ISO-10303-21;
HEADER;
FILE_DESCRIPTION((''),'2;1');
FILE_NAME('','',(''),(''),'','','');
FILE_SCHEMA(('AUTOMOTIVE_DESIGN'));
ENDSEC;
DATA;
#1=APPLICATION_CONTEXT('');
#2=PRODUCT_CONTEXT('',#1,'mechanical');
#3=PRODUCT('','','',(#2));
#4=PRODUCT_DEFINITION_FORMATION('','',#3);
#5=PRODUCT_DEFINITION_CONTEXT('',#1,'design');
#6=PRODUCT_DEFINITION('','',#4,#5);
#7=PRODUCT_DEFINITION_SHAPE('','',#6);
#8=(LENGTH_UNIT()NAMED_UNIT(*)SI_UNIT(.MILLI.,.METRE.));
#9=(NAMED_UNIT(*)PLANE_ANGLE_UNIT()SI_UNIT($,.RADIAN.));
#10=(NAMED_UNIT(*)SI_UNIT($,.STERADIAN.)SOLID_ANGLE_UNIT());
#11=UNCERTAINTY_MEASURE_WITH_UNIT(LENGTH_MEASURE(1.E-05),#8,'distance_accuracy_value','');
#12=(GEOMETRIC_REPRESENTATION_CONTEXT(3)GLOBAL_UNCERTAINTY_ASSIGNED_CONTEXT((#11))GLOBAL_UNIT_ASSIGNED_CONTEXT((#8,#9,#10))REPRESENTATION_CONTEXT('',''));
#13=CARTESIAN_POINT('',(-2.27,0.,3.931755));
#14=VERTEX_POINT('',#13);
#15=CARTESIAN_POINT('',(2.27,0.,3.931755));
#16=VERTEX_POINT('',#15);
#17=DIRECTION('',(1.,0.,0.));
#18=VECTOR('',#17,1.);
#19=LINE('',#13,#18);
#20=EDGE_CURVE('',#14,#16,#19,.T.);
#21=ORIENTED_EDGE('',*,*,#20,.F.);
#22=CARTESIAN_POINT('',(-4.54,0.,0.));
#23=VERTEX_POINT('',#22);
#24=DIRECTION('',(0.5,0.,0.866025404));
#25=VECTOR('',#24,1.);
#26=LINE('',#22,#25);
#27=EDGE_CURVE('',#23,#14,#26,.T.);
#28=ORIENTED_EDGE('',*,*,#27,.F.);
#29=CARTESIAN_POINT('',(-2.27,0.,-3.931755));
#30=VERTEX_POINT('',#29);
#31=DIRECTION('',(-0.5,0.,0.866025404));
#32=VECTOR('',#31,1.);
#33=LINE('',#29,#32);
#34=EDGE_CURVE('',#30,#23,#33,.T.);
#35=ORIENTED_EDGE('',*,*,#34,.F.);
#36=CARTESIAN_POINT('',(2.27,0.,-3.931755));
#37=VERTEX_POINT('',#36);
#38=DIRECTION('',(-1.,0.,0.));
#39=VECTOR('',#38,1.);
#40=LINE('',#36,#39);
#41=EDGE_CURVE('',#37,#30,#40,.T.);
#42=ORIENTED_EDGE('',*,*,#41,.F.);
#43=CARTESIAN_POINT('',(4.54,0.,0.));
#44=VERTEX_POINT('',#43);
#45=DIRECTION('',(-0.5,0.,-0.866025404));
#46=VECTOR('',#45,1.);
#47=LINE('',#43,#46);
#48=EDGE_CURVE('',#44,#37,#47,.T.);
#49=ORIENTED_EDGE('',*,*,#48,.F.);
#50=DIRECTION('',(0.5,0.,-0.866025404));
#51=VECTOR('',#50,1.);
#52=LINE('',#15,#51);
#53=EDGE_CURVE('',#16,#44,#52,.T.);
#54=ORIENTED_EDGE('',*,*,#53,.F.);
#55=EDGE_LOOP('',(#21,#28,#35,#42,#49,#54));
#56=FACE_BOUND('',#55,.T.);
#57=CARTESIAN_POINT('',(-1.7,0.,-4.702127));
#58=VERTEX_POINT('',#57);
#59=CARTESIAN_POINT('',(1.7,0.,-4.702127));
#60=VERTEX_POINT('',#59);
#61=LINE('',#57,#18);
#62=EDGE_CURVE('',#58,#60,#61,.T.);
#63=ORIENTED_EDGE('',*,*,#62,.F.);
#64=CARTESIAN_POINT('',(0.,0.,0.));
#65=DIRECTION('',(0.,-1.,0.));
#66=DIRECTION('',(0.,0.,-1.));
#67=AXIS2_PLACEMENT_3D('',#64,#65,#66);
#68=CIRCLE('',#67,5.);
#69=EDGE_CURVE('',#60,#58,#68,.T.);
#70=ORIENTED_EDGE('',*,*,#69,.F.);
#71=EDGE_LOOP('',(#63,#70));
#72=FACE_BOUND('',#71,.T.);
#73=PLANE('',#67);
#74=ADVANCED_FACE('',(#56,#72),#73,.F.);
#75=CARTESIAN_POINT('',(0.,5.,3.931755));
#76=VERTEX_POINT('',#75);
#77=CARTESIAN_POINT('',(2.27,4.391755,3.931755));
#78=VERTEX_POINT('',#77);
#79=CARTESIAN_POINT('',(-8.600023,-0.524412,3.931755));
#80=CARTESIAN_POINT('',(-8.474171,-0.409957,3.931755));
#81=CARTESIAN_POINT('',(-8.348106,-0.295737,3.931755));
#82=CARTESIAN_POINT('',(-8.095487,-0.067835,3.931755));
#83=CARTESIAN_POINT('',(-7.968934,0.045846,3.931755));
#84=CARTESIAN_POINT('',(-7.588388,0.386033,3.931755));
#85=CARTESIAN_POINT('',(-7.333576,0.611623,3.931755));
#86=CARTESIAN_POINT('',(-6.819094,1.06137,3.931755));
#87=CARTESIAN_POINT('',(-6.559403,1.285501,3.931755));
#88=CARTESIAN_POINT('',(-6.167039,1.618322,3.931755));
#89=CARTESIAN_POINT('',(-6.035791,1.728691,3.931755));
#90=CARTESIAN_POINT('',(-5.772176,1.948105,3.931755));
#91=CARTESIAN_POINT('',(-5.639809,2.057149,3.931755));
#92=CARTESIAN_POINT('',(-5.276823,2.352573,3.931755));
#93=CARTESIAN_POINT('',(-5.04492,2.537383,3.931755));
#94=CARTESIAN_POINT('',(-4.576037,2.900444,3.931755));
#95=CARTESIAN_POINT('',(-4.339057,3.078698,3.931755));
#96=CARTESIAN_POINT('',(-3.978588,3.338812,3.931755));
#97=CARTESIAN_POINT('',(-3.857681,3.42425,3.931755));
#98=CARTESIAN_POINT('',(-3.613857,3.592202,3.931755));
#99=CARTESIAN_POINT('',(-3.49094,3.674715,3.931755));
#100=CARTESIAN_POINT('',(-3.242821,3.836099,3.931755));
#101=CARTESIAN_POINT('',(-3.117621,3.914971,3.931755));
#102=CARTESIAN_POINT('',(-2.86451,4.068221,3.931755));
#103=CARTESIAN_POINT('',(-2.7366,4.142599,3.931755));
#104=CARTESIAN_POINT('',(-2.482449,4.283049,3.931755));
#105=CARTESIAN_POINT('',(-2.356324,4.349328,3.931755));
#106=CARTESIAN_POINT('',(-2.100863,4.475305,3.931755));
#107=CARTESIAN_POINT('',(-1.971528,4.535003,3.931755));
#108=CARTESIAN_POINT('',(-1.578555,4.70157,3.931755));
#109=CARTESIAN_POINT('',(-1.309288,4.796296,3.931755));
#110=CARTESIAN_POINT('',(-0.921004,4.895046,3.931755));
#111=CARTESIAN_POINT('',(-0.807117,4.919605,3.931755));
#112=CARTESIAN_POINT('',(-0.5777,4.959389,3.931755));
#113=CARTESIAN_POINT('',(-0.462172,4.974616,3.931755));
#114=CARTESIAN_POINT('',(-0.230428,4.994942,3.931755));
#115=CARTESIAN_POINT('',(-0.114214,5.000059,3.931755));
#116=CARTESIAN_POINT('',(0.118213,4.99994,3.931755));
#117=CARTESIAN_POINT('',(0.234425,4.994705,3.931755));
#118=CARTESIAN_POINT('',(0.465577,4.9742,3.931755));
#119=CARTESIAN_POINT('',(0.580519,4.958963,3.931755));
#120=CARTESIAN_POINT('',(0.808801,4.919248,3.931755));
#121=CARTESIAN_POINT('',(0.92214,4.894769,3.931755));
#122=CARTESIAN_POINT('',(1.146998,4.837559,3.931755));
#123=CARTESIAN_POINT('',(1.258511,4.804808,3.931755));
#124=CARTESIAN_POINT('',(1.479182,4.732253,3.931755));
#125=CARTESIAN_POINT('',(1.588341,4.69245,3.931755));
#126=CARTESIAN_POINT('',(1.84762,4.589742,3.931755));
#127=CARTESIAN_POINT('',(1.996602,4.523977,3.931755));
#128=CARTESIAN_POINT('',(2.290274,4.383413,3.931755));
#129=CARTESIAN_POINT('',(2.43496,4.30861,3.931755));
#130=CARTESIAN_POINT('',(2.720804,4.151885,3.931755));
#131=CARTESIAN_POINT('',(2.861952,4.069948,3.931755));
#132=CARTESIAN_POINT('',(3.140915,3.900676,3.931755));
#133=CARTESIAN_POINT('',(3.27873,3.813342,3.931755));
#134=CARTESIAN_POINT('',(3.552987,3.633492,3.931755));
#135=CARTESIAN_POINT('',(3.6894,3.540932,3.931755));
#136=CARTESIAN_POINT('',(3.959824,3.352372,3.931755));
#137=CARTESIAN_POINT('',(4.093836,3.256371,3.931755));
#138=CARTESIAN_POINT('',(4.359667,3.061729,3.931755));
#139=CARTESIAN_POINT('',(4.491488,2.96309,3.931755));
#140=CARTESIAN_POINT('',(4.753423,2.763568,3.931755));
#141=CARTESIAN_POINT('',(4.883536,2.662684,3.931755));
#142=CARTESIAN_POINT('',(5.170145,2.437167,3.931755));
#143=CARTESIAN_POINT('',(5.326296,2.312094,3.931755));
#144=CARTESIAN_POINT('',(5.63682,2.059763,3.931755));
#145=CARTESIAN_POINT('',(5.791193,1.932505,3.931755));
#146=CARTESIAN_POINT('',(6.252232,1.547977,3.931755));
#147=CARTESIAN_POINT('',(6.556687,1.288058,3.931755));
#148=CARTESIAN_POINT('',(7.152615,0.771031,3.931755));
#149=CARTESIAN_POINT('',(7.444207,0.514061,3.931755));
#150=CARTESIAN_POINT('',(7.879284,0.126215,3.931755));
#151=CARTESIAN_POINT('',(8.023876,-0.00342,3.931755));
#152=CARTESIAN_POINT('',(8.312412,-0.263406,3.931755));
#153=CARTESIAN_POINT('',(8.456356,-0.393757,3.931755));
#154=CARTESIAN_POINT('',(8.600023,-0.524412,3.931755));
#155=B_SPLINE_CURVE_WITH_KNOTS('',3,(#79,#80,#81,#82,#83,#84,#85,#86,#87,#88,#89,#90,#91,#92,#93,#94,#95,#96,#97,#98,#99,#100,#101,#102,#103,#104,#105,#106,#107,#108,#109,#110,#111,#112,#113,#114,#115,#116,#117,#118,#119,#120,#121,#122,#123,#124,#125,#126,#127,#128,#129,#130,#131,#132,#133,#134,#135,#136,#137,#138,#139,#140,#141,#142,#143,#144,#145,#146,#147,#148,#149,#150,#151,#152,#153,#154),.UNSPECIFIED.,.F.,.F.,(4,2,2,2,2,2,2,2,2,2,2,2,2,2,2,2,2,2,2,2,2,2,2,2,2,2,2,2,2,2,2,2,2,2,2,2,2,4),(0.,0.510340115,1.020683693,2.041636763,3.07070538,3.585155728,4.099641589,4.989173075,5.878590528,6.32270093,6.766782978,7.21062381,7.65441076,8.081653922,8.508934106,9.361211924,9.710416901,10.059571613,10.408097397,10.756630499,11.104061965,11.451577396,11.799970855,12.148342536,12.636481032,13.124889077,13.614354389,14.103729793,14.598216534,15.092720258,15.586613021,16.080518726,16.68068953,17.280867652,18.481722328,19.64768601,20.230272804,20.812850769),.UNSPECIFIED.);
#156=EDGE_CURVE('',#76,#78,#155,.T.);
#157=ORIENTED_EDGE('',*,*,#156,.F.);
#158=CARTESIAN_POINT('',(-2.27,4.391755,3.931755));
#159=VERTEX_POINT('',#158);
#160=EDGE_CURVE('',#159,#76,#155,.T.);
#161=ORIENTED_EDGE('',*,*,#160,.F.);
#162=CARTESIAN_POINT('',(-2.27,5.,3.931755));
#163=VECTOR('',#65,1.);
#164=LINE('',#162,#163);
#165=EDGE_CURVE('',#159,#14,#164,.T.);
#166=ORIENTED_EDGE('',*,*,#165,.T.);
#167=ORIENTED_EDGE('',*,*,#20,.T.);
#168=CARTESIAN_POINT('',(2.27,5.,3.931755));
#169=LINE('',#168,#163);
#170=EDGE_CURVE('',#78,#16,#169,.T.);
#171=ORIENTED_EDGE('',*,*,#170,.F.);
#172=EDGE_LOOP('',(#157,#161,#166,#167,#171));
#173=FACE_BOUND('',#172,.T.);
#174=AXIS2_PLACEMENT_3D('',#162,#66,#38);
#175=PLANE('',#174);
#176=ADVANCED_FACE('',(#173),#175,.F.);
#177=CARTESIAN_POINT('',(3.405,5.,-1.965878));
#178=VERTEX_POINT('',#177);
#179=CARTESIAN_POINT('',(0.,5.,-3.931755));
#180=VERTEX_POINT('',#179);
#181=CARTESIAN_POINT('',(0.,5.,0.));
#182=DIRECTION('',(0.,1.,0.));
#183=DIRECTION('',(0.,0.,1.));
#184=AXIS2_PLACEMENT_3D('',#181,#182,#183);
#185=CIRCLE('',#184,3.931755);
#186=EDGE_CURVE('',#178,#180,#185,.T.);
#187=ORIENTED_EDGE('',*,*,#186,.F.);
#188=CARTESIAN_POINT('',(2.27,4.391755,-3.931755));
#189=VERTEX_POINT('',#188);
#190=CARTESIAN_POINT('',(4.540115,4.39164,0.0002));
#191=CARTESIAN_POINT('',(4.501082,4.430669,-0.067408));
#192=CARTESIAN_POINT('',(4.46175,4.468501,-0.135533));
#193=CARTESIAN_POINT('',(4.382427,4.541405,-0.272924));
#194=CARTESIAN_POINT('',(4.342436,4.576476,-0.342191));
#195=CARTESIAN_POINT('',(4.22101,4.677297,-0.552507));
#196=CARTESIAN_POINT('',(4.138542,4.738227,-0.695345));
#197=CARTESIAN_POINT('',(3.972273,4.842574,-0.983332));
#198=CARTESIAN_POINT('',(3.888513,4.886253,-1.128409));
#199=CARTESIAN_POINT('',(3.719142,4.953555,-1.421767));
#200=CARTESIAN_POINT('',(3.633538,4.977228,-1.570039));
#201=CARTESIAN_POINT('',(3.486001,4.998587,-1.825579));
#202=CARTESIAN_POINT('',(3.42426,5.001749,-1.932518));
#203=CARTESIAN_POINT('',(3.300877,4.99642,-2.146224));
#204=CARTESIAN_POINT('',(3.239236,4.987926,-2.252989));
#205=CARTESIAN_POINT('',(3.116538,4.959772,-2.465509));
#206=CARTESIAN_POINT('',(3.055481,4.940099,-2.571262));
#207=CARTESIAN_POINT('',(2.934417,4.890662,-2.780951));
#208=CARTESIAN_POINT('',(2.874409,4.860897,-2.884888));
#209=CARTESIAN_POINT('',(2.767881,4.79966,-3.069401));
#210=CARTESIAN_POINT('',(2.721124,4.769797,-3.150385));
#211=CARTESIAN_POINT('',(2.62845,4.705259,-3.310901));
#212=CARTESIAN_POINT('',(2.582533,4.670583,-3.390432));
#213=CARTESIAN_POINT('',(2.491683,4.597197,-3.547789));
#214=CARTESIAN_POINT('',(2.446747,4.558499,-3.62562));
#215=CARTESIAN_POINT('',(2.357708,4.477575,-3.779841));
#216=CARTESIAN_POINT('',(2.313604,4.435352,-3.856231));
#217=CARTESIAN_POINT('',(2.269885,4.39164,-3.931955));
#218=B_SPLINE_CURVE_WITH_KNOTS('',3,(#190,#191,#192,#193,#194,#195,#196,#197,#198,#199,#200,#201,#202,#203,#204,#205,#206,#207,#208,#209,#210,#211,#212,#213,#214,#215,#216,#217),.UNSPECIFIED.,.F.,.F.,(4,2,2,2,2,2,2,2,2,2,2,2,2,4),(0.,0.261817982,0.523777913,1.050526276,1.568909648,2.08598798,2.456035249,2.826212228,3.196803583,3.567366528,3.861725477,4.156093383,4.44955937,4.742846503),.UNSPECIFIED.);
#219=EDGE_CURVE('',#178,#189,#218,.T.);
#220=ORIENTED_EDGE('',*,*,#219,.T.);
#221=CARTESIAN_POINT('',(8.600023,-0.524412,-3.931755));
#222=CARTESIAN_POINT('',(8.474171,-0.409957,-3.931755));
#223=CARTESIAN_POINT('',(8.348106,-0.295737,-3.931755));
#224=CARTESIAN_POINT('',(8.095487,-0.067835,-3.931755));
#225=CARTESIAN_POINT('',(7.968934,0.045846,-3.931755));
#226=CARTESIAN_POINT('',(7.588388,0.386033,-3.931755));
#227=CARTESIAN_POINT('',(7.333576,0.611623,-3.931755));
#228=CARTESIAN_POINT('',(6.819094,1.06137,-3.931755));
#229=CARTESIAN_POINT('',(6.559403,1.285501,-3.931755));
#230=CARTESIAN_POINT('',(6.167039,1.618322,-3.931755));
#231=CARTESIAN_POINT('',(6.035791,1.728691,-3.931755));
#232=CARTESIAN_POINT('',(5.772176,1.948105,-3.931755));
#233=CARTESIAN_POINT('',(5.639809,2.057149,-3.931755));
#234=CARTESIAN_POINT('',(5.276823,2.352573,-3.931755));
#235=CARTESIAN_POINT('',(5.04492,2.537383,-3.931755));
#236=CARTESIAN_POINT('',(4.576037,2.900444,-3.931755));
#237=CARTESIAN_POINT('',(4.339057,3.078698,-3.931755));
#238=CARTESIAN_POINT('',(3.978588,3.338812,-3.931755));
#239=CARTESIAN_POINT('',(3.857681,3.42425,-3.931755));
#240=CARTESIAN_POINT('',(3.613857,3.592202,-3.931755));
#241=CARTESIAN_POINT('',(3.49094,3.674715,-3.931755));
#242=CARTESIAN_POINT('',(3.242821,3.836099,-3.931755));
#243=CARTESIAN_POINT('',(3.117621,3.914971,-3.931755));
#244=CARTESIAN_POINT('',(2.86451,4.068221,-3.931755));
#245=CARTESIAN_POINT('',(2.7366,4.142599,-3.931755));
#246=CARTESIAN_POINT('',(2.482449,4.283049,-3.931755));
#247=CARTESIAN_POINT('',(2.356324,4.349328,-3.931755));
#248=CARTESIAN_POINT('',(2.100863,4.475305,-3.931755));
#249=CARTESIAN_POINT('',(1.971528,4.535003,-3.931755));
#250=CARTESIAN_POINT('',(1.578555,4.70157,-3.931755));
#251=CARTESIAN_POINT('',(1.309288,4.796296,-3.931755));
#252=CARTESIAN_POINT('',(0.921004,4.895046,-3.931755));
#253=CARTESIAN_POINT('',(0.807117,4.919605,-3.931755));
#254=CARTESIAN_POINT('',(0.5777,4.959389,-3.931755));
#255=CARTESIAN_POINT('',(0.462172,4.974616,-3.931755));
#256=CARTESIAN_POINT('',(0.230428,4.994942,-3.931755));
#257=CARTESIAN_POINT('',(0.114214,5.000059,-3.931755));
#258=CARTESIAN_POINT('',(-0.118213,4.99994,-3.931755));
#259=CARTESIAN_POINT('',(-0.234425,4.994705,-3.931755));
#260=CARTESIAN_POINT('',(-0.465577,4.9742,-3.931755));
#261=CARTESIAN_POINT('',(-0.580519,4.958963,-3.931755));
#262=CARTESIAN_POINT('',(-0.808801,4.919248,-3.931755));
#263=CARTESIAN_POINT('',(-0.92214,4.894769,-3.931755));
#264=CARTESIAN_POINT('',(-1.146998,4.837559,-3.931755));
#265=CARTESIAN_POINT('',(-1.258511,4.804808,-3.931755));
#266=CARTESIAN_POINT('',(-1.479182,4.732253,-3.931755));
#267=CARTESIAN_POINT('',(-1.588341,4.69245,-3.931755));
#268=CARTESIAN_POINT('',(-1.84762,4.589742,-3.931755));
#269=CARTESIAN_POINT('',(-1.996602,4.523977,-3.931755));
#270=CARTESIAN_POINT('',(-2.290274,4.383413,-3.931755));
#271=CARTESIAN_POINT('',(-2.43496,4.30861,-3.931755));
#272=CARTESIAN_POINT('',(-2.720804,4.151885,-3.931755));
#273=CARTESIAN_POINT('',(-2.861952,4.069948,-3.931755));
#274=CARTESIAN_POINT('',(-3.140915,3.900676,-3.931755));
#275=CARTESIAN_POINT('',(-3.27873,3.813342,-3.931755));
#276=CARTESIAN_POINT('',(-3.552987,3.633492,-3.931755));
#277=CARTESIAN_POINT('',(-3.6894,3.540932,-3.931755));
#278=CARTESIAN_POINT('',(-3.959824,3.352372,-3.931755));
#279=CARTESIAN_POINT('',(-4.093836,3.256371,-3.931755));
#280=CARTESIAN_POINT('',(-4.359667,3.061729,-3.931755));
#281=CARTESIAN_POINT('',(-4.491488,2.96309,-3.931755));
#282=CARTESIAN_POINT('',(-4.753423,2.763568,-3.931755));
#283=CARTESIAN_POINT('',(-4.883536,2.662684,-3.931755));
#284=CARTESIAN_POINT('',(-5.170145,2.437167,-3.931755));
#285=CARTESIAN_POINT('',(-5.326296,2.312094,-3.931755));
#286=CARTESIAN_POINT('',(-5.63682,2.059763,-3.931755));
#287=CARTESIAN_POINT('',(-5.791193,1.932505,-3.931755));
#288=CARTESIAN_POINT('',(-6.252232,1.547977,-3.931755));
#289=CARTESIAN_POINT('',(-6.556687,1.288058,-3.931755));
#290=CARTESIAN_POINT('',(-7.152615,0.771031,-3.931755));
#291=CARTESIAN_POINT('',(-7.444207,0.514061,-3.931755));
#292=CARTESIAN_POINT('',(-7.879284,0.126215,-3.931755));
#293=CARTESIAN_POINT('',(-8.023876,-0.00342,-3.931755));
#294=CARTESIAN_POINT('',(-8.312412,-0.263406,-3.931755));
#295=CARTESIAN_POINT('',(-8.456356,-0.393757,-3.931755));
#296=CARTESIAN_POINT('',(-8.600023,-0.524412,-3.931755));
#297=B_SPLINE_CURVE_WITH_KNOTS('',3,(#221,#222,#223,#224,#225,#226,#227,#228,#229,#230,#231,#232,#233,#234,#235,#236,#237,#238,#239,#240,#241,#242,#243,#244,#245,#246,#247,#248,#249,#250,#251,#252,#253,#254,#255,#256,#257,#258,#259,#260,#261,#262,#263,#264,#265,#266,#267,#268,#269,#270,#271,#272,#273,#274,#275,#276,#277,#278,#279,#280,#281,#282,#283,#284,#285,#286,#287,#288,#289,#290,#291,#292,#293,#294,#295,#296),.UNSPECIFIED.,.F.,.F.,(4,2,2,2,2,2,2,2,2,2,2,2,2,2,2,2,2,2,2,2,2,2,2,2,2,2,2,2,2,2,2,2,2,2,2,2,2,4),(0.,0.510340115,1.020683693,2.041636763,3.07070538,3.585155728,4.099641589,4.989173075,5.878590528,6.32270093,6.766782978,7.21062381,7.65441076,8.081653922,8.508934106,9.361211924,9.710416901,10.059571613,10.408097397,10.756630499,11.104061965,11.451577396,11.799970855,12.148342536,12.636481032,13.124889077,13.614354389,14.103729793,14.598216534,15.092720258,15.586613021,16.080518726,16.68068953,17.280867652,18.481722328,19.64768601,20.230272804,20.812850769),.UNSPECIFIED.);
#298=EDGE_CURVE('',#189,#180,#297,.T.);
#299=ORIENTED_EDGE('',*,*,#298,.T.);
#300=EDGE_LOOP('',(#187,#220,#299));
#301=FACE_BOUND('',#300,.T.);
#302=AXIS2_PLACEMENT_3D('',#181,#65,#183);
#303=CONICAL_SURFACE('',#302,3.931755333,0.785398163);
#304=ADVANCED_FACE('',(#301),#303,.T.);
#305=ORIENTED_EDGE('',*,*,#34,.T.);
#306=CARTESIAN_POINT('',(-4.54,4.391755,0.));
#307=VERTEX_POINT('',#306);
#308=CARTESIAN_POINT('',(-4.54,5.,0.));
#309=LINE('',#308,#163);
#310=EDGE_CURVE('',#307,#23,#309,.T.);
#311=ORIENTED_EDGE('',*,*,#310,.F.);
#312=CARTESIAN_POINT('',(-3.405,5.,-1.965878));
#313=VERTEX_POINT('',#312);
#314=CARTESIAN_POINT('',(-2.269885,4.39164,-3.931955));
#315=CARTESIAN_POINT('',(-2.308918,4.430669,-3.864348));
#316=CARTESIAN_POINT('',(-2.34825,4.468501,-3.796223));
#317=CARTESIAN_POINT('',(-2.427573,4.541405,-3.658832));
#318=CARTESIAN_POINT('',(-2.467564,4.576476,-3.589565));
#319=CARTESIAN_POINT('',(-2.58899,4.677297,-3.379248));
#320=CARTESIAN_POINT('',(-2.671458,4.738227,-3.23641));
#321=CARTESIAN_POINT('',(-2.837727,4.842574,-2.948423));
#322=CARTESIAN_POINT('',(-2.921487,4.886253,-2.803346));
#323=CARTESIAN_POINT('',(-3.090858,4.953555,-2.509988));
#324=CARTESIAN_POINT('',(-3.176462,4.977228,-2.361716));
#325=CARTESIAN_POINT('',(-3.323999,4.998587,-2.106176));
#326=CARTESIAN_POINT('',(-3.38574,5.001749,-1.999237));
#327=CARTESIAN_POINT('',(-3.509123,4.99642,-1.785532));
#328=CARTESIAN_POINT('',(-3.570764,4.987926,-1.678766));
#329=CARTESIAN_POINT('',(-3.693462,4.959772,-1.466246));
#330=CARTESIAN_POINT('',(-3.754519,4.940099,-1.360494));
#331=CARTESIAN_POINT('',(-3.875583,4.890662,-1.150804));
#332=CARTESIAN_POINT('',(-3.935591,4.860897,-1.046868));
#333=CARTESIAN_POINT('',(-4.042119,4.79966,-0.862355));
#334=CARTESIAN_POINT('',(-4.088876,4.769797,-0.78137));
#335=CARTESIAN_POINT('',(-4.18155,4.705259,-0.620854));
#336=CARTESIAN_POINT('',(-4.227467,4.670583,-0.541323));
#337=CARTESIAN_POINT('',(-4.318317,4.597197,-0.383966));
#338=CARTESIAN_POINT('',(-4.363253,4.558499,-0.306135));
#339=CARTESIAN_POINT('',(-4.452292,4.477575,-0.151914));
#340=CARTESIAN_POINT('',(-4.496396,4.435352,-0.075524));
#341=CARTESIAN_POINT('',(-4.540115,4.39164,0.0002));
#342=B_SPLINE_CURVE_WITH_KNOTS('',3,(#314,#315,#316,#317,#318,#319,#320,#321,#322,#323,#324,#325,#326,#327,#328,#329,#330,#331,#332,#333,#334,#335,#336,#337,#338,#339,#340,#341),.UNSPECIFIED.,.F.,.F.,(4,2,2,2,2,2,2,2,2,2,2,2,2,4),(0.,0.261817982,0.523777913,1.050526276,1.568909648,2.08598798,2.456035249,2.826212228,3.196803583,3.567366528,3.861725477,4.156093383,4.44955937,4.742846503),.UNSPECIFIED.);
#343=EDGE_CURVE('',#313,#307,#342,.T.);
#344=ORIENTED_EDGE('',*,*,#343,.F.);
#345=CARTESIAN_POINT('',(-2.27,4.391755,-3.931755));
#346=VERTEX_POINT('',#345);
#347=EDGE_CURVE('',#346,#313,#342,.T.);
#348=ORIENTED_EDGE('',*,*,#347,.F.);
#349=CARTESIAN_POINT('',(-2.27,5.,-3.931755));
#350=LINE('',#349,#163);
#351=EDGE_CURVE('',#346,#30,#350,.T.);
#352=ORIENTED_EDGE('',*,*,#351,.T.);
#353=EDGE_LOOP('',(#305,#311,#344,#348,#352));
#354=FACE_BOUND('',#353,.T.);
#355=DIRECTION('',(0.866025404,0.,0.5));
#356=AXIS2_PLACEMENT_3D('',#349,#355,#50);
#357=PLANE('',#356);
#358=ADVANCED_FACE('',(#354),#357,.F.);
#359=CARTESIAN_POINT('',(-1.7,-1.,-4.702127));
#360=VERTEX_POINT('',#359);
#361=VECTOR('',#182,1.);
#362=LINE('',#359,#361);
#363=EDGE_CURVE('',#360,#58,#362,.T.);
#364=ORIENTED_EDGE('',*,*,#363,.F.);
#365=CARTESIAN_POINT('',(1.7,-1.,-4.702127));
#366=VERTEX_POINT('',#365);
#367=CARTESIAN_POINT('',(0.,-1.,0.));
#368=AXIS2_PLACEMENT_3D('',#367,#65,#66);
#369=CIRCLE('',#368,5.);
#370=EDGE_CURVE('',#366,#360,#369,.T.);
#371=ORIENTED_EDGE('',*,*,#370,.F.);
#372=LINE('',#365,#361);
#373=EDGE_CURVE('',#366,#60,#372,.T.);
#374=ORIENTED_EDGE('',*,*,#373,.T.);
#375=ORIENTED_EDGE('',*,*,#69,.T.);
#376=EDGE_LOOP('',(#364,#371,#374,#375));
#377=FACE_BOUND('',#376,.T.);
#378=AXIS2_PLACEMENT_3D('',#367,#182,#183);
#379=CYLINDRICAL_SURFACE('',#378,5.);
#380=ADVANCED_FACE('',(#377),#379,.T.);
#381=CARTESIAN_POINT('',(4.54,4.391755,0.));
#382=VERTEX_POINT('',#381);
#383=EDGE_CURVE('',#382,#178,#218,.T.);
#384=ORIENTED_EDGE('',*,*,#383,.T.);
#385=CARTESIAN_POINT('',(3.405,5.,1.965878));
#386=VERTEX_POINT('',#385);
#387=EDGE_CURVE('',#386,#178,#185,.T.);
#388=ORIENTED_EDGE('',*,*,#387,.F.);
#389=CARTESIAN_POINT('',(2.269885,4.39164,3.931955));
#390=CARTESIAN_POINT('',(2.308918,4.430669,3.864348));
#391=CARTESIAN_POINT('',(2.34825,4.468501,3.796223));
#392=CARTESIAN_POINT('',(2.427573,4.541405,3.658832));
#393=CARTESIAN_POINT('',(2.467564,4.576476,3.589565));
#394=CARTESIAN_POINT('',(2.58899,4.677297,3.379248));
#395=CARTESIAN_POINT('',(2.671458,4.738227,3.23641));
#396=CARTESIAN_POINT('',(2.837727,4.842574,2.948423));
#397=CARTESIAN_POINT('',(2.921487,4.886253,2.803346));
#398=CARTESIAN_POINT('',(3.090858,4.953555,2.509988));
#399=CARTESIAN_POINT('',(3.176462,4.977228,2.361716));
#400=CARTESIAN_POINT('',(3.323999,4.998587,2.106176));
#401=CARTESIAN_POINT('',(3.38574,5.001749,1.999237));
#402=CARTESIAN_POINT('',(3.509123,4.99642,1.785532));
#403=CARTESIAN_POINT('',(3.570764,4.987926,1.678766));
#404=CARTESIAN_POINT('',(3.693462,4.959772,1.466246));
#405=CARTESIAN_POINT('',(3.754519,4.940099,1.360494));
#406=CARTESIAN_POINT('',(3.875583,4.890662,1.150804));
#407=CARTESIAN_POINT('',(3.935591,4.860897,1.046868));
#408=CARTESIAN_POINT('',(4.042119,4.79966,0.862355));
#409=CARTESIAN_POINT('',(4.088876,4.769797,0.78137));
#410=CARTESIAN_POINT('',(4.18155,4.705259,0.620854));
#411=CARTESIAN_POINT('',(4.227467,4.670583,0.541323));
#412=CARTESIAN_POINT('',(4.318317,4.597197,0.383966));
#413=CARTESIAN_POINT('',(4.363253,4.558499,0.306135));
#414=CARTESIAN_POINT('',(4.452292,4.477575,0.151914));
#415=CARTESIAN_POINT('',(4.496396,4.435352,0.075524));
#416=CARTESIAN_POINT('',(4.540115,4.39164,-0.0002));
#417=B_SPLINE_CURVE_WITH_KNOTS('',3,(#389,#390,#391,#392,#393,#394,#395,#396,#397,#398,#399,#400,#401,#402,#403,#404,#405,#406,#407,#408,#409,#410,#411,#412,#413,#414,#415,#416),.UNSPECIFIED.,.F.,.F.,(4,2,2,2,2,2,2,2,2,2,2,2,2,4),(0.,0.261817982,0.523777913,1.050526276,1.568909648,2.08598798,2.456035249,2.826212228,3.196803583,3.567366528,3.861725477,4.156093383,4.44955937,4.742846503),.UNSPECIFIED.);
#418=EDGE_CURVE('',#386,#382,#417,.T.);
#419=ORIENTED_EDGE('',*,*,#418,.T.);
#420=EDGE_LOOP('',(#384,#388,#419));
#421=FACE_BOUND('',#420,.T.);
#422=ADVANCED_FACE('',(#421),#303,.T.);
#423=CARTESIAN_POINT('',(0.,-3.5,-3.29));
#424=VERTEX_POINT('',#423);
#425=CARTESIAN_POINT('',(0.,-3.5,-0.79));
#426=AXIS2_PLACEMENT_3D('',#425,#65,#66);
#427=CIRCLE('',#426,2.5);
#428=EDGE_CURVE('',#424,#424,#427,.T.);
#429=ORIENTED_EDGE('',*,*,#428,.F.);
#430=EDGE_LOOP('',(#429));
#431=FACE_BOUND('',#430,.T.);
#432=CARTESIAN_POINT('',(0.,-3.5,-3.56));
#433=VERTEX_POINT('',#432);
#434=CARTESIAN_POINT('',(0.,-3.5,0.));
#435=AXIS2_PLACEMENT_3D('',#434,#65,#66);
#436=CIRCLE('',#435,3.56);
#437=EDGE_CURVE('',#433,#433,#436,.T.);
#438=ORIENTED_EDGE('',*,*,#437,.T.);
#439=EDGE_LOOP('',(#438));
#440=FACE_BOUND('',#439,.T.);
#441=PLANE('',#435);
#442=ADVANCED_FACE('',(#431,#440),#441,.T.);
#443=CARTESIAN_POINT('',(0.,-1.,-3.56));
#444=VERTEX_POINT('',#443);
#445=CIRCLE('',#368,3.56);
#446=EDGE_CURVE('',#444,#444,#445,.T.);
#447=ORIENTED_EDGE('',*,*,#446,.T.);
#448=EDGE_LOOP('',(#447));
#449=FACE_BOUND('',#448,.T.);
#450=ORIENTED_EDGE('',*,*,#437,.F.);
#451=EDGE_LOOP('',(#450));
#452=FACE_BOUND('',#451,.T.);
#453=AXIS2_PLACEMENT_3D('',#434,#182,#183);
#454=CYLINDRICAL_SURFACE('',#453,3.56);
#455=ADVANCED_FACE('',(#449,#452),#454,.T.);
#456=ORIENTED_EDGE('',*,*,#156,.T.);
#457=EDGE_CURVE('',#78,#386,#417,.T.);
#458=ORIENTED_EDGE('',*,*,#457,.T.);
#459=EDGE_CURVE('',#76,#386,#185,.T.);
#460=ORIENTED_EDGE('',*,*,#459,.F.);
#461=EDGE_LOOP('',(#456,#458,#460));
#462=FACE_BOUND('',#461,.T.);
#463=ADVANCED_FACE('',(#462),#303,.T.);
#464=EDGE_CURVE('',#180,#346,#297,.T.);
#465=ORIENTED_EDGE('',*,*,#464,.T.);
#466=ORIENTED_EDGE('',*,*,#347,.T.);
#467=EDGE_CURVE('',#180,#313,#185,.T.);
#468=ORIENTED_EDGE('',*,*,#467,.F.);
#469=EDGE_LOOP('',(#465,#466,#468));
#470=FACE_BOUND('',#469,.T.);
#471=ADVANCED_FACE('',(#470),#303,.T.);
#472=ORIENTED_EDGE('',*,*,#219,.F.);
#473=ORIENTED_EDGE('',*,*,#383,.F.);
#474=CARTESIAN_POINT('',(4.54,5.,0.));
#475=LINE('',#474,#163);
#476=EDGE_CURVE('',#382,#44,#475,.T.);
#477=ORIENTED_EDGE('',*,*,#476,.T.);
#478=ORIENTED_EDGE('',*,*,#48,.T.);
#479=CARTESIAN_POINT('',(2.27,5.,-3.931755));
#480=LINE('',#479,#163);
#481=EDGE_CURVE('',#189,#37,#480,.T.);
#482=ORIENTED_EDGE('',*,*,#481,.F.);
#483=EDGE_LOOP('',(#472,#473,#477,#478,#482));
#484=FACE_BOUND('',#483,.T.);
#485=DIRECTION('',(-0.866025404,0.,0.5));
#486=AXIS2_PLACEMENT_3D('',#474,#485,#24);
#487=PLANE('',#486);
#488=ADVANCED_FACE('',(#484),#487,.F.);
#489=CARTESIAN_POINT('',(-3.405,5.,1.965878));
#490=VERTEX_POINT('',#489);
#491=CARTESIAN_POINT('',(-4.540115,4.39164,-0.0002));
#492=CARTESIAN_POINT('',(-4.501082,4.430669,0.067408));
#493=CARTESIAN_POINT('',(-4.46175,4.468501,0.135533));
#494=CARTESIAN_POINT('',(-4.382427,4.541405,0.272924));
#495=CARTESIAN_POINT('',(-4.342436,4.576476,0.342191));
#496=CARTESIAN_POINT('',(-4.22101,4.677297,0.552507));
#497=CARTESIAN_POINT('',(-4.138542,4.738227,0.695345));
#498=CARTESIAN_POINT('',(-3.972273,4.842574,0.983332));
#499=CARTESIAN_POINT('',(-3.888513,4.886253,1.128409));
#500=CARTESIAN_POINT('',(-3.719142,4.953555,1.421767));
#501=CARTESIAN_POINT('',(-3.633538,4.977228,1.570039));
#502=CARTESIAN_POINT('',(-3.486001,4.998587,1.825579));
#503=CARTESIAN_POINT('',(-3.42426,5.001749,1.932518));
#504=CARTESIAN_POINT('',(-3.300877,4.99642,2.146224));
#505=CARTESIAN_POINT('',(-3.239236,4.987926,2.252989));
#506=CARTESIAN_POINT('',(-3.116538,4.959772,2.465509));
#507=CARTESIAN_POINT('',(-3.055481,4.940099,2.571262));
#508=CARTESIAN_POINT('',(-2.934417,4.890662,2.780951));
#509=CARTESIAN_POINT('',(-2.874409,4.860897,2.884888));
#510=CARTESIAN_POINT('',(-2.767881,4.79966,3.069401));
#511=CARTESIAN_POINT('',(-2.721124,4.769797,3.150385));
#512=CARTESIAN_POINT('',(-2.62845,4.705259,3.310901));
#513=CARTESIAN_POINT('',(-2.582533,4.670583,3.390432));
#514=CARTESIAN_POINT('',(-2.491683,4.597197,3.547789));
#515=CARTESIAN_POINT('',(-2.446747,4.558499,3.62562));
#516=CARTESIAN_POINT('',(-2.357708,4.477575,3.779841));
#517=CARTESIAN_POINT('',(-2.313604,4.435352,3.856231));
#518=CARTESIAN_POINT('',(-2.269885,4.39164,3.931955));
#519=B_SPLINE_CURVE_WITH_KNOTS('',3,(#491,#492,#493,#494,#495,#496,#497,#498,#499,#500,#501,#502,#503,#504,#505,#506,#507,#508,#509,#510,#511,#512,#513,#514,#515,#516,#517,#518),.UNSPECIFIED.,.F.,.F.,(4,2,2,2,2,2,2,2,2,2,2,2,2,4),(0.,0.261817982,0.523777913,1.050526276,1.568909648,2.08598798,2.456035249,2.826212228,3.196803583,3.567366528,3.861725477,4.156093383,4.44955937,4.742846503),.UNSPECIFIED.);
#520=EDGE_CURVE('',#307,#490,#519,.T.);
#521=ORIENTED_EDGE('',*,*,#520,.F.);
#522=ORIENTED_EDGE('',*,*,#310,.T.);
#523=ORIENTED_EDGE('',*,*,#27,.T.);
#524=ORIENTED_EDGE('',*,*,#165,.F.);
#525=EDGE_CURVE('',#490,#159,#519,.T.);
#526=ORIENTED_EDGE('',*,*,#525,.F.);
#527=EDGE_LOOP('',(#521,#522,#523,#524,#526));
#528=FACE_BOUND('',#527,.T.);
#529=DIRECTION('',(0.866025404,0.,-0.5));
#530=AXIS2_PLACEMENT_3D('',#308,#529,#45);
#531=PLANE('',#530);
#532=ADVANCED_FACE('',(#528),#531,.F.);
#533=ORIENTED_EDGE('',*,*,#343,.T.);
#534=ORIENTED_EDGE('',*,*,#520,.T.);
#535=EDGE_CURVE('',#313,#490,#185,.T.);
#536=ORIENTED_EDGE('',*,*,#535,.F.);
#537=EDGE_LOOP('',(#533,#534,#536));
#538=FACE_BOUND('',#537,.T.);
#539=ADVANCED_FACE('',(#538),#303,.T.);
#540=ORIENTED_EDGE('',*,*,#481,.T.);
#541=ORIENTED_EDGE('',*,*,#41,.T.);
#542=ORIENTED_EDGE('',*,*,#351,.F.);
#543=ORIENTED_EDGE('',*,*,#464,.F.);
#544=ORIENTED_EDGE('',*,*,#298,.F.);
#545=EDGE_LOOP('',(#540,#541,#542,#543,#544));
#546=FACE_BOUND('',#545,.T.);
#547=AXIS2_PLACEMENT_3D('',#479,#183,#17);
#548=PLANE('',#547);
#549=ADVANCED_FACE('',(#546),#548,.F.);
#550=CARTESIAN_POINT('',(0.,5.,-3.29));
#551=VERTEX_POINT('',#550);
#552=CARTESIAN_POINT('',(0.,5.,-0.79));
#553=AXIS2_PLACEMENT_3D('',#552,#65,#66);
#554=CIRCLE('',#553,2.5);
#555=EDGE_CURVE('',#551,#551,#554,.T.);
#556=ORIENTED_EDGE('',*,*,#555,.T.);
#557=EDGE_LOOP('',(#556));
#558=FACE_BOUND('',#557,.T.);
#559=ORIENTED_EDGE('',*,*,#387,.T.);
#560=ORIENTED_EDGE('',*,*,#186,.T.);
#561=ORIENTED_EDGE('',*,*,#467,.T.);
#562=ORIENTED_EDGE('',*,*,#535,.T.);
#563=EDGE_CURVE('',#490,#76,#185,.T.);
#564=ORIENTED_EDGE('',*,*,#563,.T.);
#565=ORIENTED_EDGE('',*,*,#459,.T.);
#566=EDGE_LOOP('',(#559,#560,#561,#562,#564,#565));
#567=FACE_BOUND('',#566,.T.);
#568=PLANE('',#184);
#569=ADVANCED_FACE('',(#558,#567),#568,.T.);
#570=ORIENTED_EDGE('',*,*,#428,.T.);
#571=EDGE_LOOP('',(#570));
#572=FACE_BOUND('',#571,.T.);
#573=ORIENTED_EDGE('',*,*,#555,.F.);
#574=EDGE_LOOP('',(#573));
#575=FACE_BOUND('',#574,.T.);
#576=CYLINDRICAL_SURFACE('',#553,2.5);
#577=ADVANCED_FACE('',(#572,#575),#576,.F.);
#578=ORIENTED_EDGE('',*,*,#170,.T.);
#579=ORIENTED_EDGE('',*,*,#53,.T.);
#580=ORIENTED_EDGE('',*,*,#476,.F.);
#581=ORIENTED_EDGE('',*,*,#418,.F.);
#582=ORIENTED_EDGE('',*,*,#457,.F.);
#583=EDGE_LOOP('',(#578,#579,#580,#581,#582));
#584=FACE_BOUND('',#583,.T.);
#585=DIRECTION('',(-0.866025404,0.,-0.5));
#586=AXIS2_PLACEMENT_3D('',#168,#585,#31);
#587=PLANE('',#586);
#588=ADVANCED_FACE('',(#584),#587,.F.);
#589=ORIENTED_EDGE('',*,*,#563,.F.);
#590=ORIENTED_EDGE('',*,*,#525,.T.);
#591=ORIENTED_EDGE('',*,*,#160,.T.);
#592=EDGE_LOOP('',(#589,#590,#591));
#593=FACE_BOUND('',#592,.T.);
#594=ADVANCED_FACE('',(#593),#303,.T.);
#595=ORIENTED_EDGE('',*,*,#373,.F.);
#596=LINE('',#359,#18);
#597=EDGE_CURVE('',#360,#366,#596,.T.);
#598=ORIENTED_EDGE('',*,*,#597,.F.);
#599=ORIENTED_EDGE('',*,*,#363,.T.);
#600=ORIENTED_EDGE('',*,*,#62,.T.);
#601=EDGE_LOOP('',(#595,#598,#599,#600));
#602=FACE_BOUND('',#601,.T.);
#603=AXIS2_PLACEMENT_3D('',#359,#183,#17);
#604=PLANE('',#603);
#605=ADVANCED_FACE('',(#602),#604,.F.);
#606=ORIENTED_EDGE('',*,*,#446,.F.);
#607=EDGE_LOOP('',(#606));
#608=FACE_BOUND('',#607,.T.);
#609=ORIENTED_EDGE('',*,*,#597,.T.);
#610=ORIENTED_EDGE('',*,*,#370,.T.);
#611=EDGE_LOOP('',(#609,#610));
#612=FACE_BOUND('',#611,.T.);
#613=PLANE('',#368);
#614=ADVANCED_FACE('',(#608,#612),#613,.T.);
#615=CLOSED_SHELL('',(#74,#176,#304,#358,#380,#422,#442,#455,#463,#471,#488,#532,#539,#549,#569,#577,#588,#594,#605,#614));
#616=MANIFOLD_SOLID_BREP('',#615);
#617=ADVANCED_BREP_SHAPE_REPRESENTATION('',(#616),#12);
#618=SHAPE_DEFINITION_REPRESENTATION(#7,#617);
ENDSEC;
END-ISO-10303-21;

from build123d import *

# Parameters (mm, degrees)
BOSS_EXTRUDE1_DEPTH = 5
SKETCH3_OUTSIDE_W   = 23.682
SKETCH3_OUTSIDE_H   = 22.466
SKETCH3_OUTSIDE_R   = 3.931755333
CUT_EXTRUDE1_DEPTH  = 5
CUT_EXTRUDE1_DRAFT  = -45
BOSS_EXTRUDE2_DEPTH = 1
SKETCH5_R           = 3.56
BOSS_EXTRUDE3_DEPTH = 2.5
SKETCH6_R           = 2.5
CUT_EXTRUDE2_DEPTH  = 12.056672194


with BuildPart() as part:
    # Sketch2 → Boss-Extrude1 (new body)
    with BuildSketch(Plane(origin=(0, 0, 0), x_dir=(1, 0, 0), z_dir=(0, 1, 0))):
        Polygon((2.27, -3.931755333), (4.54, 0), (2.27, 3.931755333), (-2.27, 3.931755333), (-4.54, 0), (-2.27, -3.931755333), align=None)
    extrude(amount=BOSS_EXTRUDE1_DEPTH)


with BuildPart() as cut_extrude1_tool:
    # Sketch3 outside → Cut-Extrude1 (with draft: the straight prism first)
    with BuildSketch(Plane(origin=(0, 5, 0), x_dir=(1, 0, 0), z_dir=(0, 1, 0))):
        Rectangle(SKETCH3_OUTSIDE_W, SKETCH3_OUTSIDE_H)
        Circle(SKETCH3_OUTSIDE_R, mode=Mode.SUBTRACT)
    extrude(amount=-CUT_EXTRUDE1_DEPTH)
    # Cut-Extrude1: the draft: its side faces are tilted about the plane it starts from
    cut_extrude1_sides = [cut_extrude1_tool.faces().sort_by_distance(p)[0] for p in [
        (0, 2.5, 11.233),
        (11.841, 2.5, 0),
        (0, 2.5, -11.233),
        (-11.841, 2.5, 0),
        (-3.931755333, 2.5, 0),
    ]]
    draft(cut_extrude1_sides, Plane(origin=(0, 5, 0), x_dir=(1, 0, 0), z_dir=(0, 1, 0)), CUT_EXTRUDE1_DRAFT)


with BuildPart() as part_1:
    add(part.part)

    # Cut-Extrude1: cut by cut_extrude1_tool
    add(cut_extrude1_tool.part, mode=Mode.SUBTRACT)

    # Sketch4 → Boss-Extrude2 (add)
    with BuildSketch(Plane.XZ):
        with BuildLine():
            Line((-1.7, -4.702127178), (1.7, -4.702127178))
            ThreePointArc((1.7, -4.702127178), (0, 5), (-1.7, -4.702127178))
        make_face()
    extrude(amount=BOSS_EXTRUDE2_DEPTH)

    # Sketch5 → Boss-Extrude3 (add)
    with BuildSketch(Plane.XZ.offset(1)):
        with Locations(Location((0, 0, 0), (0, 0, 270))):
            Circle(SKETCH5_R)
    extrude(amount=BOSS_EXTRUDE3_DEPTH)

    # Sketch6 → Cut-Extrude2 (cut, through all)
    with BuildSketch(Plane.XZ.offset(3.5)):
        with Locations(Location((0, -0.79, 0), (0, 0, 270))):
            Circle(SKETCH6_R)
    extrude(amount=-CUT_EXTRUDE2_DEPTH, mode=Mode.SUBTRACT)


solid = part_1.part
